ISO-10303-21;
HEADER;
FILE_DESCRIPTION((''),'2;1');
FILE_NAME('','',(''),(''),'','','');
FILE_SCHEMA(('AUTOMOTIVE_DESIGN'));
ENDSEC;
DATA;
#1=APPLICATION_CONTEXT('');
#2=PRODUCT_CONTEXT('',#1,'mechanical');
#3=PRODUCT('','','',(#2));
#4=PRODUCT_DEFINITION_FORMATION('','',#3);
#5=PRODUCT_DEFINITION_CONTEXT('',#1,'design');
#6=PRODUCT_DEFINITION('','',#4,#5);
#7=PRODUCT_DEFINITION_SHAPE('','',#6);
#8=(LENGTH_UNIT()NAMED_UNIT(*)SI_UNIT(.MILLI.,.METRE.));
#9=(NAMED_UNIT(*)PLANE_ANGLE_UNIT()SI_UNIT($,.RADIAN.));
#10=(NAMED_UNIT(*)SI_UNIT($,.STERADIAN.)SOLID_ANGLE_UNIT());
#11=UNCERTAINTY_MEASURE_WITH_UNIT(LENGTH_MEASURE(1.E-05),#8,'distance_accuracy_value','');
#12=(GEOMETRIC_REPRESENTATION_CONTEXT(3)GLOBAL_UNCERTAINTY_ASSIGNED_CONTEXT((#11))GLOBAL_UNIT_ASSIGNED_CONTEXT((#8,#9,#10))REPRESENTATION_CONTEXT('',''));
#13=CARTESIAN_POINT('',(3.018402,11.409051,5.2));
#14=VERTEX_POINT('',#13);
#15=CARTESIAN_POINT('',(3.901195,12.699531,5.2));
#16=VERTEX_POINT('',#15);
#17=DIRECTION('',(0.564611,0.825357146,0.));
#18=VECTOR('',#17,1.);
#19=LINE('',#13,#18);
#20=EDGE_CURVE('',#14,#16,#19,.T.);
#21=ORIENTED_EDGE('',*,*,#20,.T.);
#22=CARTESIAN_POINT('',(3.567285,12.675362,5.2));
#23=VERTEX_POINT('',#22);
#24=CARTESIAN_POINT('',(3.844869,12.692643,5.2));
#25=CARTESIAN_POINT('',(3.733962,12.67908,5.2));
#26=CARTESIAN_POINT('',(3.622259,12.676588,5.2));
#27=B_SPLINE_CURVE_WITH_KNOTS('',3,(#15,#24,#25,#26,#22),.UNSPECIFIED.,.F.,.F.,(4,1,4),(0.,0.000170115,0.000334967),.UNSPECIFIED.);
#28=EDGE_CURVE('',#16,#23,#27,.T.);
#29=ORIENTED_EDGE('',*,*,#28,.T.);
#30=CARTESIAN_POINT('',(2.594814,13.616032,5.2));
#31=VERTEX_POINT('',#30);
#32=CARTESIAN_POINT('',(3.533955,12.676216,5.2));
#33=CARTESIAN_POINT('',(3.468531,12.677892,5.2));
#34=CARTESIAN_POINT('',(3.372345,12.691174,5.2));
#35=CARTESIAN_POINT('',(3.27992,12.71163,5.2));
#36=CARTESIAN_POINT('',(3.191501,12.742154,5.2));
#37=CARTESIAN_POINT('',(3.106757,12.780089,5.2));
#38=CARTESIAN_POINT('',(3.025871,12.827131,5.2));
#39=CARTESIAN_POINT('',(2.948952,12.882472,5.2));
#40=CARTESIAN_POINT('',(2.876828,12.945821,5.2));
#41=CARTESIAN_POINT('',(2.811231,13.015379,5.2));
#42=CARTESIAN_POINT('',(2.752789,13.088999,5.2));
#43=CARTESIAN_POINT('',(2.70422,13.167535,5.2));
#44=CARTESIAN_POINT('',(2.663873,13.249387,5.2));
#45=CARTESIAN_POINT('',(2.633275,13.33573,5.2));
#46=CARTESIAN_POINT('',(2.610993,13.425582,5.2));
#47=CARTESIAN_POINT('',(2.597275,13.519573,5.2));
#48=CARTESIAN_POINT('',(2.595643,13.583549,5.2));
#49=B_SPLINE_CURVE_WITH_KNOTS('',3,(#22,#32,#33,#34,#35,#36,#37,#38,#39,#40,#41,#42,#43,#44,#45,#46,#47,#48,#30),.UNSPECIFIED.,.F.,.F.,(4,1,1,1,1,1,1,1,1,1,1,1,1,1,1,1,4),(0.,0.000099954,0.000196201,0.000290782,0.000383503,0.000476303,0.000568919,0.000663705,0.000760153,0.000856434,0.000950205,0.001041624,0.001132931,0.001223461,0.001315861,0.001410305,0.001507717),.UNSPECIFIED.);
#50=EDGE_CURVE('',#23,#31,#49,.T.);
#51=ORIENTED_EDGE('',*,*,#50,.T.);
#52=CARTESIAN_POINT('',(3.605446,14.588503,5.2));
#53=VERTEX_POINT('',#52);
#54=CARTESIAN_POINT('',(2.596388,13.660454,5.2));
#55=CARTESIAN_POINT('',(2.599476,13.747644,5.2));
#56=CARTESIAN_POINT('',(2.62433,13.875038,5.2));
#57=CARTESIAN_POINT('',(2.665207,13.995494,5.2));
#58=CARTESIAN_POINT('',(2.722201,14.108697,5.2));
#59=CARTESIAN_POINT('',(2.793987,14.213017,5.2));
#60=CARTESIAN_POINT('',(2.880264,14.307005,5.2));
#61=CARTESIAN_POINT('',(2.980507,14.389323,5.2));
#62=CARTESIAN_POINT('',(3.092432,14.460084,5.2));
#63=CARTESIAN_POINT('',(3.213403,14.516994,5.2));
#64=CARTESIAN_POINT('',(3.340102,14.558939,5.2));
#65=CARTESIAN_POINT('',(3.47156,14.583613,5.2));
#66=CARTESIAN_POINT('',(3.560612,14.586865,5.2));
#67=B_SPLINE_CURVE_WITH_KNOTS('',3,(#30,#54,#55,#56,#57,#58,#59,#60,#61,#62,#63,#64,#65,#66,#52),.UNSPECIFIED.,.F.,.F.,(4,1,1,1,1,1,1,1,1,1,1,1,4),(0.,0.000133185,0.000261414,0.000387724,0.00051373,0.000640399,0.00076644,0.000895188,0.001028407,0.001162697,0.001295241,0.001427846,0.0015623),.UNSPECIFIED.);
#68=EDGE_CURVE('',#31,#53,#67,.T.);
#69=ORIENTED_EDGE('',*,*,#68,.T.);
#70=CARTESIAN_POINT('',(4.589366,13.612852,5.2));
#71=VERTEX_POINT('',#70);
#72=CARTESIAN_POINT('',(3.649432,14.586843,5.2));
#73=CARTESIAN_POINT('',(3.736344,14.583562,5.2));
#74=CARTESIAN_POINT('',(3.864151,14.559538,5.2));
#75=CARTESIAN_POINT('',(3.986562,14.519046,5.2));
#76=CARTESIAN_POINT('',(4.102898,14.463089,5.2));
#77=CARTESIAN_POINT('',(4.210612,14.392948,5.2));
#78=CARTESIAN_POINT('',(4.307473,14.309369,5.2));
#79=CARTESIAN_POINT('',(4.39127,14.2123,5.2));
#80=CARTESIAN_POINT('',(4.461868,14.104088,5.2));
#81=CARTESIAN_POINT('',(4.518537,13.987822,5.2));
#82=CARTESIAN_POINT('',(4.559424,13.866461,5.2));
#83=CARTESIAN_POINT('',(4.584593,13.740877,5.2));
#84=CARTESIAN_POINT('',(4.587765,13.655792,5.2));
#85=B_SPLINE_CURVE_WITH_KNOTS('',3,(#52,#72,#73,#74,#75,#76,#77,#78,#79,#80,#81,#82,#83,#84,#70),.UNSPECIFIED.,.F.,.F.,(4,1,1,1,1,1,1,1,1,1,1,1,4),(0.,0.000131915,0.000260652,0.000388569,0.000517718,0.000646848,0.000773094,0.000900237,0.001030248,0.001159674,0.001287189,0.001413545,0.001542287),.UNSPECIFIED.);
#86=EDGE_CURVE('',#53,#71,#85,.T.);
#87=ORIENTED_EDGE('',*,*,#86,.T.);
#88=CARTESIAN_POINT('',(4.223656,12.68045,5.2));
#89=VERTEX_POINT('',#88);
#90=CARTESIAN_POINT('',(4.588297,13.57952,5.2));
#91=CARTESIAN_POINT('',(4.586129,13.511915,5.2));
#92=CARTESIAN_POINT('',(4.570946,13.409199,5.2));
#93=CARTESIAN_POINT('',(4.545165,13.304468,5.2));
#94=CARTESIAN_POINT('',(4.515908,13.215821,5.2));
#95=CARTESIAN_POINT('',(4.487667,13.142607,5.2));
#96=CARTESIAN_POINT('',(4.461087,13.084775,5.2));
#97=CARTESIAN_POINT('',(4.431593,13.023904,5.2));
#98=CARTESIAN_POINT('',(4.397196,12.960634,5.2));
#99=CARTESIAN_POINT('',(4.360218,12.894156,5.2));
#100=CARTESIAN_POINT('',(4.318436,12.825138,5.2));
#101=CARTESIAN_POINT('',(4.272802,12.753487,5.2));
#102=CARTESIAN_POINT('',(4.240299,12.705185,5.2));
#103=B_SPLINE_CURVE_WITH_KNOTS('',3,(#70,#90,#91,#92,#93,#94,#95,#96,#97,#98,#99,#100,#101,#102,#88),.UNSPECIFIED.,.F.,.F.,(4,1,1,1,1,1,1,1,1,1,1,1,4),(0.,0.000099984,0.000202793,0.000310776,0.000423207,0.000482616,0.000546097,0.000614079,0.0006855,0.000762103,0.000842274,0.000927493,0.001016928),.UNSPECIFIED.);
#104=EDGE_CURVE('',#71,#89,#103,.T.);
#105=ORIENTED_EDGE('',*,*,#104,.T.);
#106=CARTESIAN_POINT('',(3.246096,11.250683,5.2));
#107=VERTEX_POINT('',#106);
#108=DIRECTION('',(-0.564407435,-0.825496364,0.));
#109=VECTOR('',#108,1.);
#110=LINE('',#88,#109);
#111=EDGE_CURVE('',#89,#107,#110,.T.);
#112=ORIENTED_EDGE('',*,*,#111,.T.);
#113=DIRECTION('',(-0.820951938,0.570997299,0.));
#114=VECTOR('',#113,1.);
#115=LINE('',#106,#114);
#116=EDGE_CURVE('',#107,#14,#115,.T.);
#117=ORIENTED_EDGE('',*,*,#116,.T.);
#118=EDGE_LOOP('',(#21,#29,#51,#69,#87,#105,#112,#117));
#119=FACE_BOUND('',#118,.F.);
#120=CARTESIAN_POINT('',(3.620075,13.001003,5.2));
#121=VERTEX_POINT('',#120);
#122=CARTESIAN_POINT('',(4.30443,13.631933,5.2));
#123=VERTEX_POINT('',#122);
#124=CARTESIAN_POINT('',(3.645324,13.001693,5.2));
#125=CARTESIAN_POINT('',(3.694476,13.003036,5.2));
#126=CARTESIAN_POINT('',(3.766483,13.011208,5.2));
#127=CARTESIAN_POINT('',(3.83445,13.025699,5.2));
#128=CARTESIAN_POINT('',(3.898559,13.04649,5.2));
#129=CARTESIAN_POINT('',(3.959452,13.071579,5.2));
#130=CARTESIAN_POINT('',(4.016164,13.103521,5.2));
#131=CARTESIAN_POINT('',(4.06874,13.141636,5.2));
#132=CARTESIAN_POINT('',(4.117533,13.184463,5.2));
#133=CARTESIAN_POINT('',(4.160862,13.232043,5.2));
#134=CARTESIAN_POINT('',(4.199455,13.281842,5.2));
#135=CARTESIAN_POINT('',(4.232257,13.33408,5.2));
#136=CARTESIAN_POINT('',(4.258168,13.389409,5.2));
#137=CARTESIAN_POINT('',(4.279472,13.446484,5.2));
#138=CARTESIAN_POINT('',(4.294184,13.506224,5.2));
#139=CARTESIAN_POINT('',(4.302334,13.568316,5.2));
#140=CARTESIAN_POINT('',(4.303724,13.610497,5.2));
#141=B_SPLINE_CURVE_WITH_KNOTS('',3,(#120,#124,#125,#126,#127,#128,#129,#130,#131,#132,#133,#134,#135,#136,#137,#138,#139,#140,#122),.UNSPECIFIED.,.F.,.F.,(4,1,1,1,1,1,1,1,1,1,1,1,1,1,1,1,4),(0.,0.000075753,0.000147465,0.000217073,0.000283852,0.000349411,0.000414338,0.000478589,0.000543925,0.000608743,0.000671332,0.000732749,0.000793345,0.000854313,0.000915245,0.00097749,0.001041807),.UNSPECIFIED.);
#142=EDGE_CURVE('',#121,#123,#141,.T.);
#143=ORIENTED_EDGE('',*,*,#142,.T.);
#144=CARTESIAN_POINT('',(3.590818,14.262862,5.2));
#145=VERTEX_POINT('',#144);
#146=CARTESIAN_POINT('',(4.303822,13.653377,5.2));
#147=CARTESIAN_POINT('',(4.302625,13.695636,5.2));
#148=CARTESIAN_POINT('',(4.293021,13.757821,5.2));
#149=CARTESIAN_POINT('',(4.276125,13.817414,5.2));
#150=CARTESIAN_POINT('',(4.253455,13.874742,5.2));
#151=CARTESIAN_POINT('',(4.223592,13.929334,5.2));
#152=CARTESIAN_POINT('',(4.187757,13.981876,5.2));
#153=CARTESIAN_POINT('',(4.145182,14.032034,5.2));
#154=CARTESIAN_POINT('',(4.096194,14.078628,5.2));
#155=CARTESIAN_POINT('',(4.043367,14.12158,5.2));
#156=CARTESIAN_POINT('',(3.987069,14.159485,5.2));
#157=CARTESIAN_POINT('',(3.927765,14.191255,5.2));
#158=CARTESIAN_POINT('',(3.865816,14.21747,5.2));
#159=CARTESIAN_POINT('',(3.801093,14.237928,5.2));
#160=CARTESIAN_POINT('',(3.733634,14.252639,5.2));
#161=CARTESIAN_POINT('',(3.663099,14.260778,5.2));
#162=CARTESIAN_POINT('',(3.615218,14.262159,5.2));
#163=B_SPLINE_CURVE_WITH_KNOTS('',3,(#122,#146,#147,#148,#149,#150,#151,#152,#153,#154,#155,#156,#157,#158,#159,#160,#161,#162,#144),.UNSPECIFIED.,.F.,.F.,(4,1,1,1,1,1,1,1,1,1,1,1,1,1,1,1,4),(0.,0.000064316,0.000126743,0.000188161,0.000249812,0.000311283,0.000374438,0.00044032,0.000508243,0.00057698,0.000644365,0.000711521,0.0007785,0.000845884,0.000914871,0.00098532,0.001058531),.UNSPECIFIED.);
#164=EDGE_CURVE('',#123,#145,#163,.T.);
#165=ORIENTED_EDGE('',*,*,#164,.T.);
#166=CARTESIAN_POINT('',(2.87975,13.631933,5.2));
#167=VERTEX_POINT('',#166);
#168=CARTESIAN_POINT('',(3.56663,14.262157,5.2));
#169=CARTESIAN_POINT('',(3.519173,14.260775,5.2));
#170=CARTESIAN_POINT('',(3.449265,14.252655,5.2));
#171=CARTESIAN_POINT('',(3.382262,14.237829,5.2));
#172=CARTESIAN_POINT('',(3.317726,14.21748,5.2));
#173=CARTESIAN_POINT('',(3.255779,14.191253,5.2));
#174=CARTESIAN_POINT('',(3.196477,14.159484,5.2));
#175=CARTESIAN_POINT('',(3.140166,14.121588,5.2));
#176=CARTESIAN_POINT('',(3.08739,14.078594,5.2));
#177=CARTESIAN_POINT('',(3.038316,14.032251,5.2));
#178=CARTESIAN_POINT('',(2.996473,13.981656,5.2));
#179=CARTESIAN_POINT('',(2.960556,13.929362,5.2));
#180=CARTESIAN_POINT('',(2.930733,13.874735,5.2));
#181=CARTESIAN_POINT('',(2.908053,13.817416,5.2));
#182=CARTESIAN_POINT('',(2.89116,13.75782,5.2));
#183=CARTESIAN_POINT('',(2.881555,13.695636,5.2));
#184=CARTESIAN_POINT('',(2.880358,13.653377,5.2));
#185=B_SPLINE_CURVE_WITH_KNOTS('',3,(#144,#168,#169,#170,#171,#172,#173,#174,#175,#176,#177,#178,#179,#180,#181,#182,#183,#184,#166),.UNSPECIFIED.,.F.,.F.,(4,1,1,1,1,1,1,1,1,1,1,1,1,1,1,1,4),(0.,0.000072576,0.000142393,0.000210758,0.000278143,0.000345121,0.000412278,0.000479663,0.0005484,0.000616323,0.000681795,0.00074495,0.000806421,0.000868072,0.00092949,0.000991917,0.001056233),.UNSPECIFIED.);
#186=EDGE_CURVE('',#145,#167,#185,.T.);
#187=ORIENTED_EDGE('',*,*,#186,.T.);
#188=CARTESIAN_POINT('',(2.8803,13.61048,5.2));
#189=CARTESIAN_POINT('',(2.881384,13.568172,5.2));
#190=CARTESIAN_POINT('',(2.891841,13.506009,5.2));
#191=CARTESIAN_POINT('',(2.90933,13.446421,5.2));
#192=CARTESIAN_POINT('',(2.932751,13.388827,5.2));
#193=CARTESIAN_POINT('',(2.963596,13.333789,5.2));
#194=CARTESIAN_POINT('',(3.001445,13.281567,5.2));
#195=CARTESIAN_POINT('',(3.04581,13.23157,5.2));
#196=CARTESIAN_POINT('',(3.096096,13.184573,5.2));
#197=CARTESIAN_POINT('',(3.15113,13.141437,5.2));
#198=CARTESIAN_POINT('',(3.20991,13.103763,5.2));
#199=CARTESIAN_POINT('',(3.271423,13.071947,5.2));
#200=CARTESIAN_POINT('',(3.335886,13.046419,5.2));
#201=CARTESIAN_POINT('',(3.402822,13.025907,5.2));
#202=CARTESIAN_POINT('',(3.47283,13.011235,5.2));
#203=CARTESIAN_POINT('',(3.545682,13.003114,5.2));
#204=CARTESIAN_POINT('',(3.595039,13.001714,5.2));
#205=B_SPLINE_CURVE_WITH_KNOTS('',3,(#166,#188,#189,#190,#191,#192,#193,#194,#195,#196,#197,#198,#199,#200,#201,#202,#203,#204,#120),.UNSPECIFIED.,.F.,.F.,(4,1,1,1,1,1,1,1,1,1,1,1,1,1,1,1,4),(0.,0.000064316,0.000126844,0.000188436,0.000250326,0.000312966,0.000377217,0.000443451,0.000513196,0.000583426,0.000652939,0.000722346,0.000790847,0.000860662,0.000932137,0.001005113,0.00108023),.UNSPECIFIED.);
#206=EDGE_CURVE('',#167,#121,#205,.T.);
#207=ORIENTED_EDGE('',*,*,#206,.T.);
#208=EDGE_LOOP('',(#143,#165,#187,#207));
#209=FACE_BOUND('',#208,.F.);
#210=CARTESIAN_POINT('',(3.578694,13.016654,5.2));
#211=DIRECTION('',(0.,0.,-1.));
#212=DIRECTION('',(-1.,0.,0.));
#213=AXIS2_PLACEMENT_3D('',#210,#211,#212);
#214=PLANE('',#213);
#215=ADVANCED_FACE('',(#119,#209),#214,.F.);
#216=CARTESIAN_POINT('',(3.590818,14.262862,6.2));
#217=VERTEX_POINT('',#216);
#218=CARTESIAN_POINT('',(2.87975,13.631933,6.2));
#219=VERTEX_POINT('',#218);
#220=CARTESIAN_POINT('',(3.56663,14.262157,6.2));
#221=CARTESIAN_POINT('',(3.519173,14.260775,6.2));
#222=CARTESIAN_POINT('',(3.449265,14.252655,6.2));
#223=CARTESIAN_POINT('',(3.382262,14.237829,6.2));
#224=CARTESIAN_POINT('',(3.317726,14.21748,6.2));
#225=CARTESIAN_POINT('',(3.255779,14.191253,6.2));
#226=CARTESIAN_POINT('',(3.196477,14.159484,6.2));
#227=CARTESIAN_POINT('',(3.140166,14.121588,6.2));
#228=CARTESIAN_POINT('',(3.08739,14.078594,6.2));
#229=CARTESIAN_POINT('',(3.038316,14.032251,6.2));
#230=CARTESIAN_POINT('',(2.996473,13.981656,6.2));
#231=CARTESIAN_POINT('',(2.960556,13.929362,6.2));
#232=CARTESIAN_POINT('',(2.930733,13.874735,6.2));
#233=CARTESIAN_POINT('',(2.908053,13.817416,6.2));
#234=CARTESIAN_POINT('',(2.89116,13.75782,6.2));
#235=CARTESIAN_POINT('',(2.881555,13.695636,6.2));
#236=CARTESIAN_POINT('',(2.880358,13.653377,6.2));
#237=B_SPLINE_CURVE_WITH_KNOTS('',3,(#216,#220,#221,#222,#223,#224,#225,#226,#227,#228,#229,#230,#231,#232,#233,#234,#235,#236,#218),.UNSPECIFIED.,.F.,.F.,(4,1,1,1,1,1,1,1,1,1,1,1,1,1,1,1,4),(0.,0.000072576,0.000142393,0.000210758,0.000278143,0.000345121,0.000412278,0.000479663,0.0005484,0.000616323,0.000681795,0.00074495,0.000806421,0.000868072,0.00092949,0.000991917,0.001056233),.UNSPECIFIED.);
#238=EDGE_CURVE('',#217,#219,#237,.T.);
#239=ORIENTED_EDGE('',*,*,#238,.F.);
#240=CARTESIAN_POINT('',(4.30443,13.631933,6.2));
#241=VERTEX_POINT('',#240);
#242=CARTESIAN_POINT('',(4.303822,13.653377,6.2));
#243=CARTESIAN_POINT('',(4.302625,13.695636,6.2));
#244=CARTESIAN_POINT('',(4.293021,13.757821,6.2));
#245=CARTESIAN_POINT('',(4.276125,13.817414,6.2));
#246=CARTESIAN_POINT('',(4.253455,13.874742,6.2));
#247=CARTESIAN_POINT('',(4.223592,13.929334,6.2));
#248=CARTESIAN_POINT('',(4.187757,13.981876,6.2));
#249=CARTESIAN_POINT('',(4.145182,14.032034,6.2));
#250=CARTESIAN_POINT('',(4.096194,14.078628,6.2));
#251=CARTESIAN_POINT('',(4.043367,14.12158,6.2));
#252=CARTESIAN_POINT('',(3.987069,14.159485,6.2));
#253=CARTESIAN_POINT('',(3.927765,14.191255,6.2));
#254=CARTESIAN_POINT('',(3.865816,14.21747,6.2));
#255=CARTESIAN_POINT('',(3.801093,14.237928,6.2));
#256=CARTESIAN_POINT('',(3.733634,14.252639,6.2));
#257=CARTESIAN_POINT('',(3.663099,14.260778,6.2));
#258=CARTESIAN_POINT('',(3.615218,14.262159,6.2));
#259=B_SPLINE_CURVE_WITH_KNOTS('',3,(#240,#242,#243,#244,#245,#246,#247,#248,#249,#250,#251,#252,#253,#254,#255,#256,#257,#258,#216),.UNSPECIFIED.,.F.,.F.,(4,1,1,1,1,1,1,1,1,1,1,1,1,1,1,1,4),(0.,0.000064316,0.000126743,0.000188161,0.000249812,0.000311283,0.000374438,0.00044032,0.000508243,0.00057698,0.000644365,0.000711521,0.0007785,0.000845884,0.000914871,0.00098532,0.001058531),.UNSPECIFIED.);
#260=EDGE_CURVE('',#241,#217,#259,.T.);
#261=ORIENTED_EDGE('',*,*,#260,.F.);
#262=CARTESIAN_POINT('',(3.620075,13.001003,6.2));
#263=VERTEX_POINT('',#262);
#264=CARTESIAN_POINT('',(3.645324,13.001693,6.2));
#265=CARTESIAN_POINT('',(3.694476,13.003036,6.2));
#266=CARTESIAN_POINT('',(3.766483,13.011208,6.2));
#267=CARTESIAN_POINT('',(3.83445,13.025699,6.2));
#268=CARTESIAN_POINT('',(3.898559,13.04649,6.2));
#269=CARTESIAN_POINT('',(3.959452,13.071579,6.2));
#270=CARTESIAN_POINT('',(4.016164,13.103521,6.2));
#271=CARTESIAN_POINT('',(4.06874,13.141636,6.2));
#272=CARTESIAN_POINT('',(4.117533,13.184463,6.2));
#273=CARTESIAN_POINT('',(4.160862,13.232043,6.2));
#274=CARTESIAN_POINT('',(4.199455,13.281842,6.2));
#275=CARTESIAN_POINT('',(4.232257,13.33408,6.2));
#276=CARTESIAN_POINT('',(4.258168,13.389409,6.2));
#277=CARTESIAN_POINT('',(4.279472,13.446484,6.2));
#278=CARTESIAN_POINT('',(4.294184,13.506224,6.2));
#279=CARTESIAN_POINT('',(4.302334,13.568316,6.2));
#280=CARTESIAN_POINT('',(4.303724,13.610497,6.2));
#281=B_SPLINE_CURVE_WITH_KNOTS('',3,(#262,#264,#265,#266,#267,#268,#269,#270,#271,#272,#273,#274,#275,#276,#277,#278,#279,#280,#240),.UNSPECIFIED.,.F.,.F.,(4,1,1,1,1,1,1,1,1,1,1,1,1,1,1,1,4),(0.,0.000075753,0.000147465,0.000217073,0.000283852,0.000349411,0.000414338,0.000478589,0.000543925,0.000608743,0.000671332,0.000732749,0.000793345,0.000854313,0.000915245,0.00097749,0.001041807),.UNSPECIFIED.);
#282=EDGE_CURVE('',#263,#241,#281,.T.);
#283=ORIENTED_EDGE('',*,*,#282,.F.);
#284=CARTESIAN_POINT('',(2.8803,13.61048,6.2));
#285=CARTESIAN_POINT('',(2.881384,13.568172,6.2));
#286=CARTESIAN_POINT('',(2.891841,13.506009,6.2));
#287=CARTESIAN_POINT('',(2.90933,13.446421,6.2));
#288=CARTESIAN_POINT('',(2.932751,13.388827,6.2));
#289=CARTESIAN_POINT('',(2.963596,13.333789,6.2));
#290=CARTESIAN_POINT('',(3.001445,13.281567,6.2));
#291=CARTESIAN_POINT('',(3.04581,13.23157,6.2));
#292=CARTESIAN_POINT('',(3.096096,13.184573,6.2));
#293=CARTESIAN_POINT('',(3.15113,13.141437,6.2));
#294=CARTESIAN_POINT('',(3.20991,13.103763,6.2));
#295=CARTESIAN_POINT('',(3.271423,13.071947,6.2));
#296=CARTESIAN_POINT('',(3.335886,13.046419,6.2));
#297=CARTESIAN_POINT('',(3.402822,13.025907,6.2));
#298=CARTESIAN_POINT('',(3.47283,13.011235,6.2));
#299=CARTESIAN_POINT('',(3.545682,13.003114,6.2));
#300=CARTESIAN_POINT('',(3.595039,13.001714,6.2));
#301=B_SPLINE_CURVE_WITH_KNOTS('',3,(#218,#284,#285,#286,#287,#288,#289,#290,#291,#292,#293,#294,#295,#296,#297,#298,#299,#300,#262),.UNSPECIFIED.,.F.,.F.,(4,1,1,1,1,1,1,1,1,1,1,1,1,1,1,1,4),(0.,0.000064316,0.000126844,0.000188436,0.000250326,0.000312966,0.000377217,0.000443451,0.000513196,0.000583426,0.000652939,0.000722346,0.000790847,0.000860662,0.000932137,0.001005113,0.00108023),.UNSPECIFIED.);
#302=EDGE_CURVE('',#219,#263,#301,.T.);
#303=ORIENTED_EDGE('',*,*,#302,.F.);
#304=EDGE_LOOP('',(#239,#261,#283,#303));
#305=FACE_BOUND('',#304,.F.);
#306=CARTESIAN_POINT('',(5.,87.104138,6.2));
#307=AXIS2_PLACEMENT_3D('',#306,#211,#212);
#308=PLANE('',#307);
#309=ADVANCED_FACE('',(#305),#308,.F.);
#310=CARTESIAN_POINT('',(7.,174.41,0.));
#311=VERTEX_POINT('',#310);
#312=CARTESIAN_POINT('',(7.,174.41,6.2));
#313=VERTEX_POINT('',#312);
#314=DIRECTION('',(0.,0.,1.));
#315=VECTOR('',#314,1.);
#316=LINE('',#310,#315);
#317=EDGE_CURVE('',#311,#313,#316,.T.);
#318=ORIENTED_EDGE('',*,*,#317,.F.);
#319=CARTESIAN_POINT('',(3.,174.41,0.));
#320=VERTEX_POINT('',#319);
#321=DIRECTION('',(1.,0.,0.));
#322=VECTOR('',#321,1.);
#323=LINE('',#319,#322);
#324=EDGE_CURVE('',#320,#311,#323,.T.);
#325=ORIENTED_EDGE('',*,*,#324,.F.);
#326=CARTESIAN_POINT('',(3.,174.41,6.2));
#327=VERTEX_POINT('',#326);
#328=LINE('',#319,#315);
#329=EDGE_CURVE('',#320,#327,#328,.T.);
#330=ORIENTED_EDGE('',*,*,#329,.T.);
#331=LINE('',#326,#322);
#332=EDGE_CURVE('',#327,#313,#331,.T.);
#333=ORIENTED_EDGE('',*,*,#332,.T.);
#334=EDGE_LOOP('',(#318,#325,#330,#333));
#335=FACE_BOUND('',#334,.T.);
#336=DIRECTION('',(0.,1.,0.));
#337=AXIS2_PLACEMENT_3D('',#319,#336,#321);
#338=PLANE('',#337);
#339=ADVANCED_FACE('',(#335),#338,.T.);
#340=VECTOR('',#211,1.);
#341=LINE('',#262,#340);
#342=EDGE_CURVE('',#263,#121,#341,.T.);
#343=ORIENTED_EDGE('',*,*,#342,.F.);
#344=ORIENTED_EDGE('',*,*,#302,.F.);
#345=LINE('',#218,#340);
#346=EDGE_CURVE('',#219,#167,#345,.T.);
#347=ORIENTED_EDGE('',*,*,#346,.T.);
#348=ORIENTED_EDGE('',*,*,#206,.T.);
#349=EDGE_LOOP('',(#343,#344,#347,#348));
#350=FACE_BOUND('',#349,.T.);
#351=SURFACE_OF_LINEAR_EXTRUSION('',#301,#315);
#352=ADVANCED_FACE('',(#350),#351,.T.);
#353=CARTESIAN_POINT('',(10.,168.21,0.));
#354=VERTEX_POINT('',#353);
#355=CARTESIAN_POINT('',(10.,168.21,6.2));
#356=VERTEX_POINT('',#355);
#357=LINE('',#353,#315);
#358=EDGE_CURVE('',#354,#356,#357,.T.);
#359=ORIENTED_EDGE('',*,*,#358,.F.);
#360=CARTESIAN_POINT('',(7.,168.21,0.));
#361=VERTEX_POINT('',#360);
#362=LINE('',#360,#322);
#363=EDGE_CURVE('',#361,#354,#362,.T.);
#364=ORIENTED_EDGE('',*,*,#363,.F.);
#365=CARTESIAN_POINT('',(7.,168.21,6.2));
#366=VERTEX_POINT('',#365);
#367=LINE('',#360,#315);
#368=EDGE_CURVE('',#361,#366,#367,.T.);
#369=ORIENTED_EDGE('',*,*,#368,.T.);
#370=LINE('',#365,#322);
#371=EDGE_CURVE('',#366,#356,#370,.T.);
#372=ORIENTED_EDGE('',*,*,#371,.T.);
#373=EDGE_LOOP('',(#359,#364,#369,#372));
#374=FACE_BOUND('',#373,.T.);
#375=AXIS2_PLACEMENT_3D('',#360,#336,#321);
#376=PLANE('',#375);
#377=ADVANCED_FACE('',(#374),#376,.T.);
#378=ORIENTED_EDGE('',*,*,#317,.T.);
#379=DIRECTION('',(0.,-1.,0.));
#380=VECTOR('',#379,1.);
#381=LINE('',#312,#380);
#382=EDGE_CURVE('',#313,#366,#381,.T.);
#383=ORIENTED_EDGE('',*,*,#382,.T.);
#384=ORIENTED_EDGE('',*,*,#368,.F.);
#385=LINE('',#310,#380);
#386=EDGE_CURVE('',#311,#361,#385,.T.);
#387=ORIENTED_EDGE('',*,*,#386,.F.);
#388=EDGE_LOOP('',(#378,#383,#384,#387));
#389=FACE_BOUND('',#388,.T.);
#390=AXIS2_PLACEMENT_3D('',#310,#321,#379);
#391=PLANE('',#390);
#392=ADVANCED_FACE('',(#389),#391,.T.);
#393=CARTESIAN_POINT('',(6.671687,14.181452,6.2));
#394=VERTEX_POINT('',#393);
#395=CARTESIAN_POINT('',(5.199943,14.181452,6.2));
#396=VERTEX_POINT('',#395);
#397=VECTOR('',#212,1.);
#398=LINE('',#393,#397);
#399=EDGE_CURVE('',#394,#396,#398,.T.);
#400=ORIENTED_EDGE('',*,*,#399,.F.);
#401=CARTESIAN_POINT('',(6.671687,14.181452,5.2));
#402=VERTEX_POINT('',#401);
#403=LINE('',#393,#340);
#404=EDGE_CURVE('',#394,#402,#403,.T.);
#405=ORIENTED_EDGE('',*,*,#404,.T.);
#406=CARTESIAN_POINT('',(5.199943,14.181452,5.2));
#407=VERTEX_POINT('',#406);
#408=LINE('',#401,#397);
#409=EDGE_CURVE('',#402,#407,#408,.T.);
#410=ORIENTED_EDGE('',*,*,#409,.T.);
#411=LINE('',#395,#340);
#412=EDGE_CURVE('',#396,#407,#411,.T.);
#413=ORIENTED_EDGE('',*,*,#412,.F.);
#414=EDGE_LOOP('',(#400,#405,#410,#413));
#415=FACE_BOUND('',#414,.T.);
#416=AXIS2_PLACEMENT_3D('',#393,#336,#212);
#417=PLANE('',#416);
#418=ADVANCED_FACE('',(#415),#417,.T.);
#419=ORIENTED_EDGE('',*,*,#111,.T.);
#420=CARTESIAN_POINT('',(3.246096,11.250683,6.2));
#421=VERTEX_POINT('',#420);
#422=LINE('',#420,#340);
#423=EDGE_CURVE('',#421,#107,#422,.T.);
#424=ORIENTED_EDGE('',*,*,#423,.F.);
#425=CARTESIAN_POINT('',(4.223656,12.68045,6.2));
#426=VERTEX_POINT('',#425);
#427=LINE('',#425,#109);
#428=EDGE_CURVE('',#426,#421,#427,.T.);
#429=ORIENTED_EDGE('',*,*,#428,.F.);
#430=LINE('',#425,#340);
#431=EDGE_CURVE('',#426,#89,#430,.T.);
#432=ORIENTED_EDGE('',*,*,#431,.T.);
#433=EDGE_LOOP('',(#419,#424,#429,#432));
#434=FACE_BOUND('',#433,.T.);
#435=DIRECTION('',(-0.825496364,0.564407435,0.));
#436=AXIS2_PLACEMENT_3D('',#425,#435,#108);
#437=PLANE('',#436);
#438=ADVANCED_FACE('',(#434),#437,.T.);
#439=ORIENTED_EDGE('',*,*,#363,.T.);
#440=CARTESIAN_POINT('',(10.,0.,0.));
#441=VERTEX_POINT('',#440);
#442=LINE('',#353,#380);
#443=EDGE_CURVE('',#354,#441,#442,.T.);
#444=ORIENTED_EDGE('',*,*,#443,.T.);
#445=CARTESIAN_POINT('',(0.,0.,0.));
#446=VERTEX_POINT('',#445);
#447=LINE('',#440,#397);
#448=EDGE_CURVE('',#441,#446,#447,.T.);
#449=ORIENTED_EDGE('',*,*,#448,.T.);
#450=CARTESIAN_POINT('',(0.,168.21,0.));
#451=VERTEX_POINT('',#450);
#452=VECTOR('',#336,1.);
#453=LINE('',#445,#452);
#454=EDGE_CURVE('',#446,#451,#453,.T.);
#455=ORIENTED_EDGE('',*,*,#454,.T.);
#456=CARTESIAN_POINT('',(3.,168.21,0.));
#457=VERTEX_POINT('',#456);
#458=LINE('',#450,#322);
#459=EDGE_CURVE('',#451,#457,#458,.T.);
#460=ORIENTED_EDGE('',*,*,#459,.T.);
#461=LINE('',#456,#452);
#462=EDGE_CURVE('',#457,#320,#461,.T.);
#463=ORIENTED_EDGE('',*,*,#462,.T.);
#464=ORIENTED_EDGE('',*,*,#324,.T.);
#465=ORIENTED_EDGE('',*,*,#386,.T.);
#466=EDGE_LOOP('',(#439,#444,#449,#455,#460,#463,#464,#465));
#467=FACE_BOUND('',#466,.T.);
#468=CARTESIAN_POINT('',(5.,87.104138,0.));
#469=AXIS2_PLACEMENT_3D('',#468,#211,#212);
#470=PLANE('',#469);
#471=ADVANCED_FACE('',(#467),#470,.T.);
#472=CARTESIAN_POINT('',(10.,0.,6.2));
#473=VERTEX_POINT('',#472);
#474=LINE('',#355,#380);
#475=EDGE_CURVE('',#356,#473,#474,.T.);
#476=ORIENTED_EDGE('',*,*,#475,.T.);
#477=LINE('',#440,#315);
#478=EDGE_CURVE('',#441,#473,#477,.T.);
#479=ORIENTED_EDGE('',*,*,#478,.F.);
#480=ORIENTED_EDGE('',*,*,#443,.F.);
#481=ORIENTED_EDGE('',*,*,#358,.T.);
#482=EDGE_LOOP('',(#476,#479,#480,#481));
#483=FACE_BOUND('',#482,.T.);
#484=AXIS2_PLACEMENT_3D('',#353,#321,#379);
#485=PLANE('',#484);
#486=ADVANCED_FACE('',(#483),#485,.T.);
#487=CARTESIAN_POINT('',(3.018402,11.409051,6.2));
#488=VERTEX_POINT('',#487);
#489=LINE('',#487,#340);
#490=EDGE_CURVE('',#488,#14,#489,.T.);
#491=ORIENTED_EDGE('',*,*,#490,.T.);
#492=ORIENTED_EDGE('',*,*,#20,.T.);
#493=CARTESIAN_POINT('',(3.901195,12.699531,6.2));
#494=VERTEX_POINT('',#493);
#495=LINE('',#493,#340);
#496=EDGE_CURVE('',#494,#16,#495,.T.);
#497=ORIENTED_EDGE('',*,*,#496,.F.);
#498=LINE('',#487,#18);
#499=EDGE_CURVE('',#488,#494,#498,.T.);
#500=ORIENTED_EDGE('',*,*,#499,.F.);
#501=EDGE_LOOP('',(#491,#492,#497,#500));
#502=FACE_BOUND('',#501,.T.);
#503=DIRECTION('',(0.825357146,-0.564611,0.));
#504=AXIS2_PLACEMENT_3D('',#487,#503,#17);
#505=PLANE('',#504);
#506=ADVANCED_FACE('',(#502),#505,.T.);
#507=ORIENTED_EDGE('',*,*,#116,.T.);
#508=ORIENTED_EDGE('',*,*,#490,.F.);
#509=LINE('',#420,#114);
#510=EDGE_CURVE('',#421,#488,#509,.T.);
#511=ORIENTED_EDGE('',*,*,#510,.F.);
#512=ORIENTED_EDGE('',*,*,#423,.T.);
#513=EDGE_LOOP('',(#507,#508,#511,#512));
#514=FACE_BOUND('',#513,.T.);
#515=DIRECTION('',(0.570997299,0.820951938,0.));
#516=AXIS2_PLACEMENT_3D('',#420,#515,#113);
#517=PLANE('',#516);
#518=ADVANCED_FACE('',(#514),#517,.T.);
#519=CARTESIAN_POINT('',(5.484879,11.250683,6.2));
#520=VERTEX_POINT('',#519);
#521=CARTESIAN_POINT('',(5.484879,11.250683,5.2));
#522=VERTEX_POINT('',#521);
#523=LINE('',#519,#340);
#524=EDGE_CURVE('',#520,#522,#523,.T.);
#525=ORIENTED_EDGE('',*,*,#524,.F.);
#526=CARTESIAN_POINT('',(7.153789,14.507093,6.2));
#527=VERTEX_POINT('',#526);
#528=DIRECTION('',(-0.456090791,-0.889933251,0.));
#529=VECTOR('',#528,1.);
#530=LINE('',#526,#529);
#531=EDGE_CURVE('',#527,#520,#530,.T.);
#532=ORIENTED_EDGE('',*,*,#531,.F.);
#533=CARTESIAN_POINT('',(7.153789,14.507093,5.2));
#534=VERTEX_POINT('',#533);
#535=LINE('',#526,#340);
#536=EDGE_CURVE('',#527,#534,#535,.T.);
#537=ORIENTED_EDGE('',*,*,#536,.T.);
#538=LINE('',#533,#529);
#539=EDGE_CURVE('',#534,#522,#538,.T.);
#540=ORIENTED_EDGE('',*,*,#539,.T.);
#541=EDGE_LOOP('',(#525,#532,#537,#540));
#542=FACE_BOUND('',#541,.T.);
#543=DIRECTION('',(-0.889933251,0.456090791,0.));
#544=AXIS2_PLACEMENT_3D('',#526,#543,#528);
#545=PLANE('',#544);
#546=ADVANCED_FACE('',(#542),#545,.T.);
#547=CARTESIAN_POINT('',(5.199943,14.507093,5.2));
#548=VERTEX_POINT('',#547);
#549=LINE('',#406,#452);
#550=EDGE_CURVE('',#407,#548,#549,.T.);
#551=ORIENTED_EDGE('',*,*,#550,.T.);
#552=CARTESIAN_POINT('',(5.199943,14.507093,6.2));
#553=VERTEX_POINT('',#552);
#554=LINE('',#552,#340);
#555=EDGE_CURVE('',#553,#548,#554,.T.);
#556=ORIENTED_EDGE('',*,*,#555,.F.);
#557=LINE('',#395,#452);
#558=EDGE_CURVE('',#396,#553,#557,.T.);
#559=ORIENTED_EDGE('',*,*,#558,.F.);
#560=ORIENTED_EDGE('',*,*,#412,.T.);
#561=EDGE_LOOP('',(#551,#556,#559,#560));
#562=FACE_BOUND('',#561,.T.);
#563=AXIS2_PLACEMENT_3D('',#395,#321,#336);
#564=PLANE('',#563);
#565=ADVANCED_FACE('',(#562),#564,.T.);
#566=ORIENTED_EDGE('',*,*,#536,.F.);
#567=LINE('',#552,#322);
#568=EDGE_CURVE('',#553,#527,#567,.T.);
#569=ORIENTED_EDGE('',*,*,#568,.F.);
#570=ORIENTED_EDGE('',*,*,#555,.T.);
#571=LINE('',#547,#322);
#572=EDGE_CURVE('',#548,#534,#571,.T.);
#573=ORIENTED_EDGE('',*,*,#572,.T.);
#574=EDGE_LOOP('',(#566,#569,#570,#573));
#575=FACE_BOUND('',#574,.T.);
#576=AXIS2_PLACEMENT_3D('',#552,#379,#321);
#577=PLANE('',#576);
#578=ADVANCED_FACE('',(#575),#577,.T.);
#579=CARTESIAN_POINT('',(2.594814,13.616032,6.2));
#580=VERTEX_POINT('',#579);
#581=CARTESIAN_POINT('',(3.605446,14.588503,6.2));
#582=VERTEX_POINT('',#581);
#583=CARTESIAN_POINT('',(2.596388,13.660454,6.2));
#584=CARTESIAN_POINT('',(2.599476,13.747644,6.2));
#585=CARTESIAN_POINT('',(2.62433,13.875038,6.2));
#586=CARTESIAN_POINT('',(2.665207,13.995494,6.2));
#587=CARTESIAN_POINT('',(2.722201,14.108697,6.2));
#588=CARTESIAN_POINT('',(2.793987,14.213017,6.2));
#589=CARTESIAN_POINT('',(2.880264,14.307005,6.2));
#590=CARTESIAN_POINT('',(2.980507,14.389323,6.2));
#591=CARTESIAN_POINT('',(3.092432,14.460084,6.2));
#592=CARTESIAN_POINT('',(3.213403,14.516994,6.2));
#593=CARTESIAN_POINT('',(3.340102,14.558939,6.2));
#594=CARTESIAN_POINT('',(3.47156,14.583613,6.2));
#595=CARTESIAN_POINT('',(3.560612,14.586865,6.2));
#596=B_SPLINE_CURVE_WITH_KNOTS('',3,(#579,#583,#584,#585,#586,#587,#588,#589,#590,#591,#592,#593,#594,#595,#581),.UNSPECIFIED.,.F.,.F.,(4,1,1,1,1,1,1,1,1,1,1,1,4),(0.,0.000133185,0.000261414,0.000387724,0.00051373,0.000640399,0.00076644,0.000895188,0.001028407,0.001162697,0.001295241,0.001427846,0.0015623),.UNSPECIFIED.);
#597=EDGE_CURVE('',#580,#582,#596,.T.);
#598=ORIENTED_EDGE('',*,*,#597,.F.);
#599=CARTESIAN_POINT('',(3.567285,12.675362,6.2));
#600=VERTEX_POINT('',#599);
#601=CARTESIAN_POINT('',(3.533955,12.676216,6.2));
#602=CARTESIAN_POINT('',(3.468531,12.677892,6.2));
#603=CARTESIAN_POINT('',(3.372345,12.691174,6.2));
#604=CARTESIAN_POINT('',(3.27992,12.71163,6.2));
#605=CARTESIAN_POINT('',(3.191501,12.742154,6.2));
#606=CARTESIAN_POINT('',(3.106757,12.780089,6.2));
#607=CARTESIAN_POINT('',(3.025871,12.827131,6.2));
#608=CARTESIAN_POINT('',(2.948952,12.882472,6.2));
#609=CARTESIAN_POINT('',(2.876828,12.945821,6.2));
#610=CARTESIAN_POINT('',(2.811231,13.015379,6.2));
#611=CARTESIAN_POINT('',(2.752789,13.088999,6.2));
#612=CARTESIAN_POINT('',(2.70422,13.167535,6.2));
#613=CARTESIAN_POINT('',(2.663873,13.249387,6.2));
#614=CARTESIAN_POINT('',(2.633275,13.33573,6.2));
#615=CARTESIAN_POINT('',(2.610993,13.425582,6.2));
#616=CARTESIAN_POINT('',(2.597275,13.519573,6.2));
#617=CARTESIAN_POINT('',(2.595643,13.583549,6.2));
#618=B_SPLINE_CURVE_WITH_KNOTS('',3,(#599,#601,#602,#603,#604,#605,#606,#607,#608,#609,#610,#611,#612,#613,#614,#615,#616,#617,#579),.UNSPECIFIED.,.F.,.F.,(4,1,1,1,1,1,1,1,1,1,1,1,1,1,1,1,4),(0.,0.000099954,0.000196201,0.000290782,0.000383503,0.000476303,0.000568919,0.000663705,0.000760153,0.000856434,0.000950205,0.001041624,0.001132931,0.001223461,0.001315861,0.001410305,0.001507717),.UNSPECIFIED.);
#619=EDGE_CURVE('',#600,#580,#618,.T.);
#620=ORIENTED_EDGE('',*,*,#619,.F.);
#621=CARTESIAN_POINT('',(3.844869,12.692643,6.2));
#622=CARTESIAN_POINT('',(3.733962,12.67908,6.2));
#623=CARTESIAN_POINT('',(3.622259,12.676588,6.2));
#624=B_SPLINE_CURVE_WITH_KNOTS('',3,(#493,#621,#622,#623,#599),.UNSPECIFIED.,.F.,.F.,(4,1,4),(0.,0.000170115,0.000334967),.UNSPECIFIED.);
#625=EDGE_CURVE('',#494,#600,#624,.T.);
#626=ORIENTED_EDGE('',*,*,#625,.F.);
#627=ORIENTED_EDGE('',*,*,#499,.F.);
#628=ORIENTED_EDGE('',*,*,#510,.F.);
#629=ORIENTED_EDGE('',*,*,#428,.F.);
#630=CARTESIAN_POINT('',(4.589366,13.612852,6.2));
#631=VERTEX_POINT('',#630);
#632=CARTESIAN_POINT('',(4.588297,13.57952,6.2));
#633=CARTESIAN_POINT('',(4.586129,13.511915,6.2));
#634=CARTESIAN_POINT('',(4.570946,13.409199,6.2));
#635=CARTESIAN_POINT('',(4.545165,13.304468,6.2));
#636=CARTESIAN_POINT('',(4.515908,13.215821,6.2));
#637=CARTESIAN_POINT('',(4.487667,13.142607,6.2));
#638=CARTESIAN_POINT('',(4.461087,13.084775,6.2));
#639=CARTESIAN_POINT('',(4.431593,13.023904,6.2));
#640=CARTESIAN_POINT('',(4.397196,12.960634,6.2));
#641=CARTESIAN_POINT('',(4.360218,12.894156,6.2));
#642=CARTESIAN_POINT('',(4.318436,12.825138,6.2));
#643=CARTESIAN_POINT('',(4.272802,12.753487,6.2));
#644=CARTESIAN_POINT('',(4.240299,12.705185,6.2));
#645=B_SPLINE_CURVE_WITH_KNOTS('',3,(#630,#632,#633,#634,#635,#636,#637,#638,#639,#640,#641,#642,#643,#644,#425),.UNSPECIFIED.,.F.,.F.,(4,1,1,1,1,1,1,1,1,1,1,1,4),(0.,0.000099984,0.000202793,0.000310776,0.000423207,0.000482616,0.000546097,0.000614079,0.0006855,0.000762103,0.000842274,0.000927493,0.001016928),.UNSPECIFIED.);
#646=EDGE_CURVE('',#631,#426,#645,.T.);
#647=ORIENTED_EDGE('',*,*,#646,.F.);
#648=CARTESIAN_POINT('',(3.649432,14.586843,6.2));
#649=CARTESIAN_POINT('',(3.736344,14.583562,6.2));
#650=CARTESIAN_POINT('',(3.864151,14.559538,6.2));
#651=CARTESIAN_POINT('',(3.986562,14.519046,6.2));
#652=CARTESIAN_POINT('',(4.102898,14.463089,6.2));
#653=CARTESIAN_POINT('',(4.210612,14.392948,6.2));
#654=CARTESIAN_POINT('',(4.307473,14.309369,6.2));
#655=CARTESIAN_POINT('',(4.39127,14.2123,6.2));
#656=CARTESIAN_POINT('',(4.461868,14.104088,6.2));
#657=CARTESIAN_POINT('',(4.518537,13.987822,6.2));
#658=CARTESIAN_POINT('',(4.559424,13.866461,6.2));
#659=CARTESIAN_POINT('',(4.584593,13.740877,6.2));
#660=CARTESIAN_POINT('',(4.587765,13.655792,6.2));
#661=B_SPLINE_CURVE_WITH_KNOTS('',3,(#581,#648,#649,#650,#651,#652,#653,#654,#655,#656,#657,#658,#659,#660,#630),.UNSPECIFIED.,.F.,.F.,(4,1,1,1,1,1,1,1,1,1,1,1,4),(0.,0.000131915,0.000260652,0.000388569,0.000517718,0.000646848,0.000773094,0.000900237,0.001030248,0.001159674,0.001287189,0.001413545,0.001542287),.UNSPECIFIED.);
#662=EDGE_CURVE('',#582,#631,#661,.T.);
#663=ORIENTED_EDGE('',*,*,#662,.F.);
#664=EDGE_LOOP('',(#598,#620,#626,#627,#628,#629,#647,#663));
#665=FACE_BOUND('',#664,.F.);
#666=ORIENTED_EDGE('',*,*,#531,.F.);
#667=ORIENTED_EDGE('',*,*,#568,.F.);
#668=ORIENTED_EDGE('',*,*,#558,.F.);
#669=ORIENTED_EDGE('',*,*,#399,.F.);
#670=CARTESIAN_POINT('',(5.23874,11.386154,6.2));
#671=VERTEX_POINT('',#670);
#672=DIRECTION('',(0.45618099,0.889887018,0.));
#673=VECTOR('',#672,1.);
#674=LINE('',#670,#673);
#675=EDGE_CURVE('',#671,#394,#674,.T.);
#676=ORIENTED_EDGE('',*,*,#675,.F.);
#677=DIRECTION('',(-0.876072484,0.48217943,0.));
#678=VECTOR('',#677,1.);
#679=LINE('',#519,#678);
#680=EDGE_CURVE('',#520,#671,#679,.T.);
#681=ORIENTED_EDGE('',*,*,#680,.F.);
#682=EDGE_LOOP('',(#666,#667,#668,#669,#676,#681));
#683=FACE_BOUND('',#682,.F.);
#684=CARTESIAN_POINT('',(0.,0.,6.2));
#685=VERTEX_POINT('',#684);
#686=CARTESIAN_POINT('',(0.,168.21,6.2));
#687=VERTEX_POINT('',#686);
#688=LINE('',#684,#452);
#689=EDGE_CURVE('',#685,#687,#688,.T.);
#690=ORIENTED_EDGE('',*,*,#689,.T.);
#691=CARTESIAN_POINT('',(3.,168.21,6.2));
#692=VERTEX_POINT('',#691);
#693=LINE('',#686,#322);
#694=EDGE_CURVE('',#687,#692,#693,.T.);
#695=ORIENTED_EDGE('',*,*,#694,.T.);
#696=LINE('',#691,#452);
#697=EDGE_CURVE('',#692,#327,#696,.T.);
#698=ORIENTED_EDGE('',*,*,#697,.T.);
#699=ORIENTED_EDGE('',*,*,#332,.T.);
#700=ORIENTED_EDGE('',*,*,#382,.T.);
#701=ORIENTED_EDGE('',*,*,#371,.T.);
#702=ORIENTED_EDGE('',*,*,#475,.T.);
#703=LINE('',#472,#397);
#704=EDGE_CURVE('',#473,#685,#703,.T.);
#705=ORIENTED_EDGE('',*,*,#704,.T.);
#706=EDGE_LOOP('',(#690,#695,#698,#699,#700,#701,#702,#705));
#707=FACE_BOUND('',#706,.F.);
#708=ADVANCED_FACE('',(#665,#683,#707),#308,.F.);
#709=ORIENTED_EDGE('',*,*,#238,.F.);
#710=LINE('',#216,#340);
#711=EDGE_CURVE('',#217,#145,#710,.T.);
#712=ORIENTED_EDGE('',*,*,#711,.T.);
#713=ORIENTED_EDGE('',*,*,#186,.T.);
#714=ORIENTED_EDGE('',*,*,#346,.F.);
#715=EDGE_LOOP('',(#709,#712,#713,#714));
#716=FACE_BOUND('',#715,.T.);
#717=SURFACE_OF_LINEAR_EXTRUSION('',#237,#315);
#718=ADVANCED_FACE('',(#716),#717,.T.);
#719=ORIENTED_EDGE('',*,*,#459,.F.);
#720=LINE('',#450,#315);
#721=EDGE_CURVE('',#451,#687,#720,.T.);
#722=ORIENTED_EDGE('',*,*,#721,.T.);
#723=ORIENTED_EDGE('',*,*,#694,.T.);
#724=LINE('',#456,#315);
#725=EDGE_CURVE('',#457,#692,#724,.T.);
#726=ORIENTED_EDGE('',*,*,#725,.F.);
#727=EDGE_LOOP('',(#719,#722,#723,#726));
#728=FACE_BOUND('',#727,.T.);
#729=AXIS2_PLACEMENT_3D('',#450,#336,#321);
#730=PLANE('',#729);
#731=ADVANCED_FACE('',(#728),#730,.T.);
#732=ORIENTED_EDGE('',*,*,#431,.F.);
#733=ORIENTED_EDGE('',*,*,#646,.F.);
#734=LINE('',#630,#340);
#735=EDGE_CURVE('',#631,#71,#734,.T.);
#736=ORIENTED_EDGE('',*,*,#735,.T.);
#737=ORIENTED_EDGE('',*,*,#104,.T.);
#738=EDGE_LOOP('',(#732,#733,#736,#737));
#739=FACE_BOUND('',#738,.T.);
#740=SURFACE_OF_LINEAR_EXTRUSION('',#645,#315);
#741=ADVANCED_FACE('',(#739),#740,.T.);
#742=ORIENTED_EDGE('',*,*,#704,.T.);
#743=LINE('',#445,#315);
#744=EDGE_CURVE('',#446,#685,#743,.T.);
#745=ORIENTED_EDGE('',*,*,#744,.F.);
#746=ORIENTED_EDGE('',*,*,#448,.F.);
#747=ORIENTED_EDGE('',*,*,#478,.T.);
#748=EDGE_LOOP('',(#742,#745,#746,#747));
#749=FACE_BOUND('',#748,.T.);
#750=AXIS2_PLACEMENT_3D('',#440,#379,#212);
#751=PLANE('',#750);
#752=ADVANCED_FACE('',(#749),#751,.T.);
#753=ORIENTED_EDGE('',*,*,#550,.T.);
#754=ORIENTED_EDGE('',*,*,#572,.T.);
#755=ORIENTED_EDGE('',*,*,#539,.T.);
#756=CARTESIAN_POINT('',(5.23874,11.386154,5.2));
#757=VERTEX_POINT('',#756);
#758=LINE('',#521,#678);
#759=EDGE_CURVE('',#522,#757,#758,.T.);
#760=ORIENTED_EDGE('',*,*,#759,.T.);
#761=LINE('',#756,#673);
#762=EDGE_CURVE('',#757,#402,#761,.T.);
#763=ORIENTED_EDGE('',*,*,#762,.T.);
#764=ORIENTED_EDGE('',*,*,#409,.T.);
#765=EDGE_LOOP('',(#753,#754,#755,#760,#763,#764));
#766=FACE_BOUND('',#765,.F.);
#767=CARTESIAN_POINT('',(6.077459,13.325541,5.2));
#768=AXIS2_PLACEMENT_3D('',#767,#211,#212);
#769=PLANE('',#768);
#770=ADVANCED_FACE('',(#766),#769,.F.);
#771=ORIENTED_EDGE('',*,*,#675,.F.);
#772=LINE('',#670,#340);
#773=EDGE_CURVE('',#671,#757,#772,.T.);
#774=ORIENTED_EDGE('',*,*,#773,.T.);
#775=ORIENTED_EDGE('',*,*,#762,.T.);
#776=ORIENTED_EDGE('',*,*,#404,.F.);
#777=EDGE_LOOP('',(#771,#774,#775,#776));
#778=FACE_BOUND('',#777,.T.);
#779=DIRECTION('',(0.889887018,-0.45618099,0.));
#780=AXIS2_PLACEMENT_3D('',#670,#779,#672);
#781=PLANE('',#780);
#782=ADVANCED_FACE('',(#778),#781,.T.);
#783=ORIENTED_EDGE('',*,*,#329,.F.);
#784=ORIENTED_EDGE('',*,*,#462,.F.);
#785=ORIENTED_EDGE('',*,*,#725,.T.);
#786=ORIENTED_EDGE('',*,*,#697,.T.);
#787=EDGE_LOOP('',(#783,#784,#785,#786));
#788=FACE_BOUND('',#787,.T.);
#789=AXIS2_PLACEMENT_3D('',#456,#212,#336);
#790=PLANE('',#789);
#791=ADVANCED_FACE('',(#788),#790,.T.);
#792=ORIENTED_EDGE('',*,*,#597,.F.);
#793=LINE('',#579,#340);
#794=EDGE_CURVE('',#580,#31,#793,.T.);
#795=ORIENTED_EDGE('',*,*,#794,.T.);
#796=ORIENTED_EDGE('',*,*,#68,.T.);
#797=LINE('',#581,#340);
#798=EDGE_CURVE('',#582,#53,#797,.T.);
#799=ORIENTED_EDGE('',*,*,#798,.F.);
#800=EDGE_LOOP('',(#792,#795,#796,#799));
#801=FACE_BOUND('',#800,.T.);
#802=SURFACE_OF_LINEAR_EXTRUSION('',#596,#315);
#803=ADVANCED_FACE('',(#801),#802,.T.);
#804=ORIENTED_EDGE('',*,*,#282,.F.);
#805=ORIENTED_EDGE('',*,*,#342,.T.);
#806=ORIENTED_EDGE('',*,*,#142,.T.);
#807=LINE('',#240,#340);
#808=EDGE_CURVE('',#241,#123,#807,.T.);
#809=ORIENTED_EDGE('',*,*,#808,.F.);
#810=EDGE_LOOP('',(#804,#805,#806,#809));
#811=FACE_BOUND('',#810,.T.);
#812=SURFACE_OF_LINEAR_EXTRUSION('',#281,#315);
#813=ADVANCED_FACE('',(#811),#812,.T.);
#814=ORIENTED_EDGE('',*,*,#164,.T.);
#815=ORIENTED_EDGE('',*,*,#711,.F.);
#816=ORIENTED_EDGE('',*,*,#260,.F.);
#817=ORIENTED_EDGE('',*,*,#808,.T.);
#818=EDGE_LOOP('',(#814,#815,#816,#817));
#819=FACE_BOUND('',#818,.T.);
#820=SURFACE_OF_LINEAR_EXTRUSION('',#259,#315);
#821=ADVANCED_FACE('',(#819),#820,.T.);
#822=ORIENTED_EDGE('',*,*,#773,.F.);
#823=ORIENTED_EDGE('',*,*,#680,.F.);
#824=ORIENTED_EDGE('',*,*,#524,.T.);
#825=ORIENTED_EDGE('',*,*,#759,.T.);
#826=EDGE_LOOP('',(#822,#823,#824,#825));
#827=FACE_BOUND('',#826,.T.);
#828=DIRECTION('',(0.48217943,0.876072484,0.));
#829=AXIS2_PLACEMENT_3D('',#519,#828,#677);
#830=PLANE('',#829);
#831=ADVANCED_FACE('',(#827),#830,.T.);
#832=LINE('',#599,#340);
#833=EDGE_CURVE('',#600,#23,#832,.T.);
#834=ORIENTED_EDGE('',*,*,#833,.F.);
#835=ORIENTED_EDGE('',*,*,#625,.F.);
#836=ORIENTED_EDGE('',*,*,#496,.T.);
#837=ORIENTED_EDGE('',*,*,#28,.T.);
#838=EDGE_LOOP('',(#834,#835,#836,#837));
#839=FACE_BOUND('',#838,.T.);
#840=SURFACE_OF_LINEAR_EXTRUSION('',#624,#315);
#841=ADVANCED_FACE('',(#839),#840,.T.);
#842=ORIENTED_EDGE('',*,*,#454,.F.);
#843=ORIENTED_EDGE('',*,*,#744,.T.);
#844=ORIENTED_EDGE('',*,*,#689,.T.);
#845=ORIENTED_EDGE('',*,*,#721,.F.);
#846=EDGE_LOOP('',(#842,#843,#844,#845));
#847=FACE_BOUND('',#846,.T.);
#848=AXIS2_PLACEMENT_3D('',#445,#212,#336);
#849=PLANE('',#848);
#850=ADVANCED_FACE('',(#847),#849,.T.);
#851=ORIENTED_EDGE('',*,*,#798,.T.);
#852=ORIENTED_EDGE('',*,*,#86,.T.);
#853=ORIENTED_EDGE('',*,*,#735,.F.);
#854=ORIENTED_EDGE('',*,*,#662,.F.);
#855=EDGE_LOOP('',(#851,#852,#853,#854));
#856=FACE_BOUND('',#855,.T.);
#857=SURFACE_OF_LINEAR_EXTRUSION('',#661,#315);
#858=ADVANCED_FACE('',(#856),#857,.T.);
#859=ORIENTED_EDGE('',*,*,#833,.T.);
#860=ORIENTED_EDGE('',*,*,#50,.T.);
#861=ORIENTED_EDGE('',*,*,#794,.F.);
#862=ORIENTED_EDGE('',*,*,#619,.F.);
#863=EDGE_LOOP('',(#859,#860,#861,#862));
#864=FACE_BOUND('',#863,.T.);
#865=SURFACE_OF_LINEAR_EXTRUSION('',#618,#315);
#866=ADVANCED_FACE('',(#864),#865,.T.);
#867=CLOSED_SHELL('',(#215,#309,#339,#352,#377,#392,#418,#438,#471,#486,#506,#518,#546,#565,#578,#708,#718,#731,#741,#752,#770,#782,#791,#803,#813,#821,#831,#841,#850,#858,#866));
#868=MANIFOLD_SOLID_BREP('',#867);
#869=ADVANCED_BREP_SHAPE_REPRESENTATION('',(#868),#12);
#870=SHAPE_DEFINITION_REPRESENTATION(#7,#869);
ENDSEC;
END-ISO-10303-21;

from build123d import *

# Parameters (mm, degrees)
BOSS_EXTRUDE1_DEPTH = 6.2
CUT_EXTRUDE1_DEPTH  = 1


with BuildPart() as part:
    # Sketch1 → Boss-Extrude1 (new body)
    with BuildSketch(Plane.XY):
        Polygon((0, 0), (0, 168.21), (3, 168.21), (3, 174.41), (7, 174.41), (7, 168.21), (10, 168.21), (10, 0), align=None)
    extrude(amount=BOSS_EXTRUDE1_DEPTH)

    # Sketch4 → Cut-Extrude1 (cut)
    with BuildSketch(Plane.XY.offset(6.2)):
        with BuildLine():
            Line((3.246096477, 11.250682627), (3.018402166, 11.409051017))
            Line((3.018402166, 11.409051017), (3.901194634, 12.699530784))
            add(Edge.make_bspline(
                [(3.901194634, 12.699530784), (3.844869467, 12.692642791), (3.733962072, 12.679079948), (3.62225913, 12.67658834), (3.567285379, 12.675362114)],
                knots=[0, 0, 0, 0, 0.000170115, 0.000334967, 0.000334967, 0.000334967, 0.000334967], degree=3))
            add(Edge.make_bspline(
                [(3.567285379, 12.675362114), (3.533955093, 12.676215805), (3.468530656, 12.677891525), (3.3723448, 12.691173737), (3.279920041, 12.711629925), (3.191501411, 12.742154152), (3.106756575, 12.780089242), (3.025870535, 12.827130962), (2.948952177, 12.882472383), (2.876827598, 12.945820883), (2.81123052, 13.01537883), (2.752789386, 13.088998592), (2.704219931, 13.167535365), (2.663873314, 13.249387065), (2.633274974, 13.335730147), (2.610993243, 13.425582103), (2.597275107, 13.519572664), (2.595643071, 13.583549033), (2.594814426, 13.616032186)],
                knots=[0, 0, 0, 0, 9.9954e-05, 0.000196201, 0.000290782, 0.000383503, 0.000476303, 0.000568919, 0.000663705, 0.000760153, 0.000856434, 0.000950205, 0.001041624, 0.001132931, 0.001223461, 0.001315861, 0.001410305, 0.001507717, 0.001507717, 0.001507717, 0.001507717], degree=3))
            add(Edge.make_bspline(
                [(2.594814426, 13.616032186), (2.596387806, 13.66045375), (2.599476032, 13.747644268), (2.624330401, 13.875037758), (2.665206566, 13.995494123), (2.722200879, 14.108696656), (2.793987377, 14.213016941), (2.880264455, 14.307004751), (2.980507337, 14.389323296), (3.092432454, 14.460084138), (3.213402694, 14.516993743), (3.34010212, 14.558939394), (3.471559929, 14.583612544), (3.560612029, 14.586865432), (3.605446437, 14.58850314)],
                knots=[0, 0, 0, 0, 0.000133185, 0.000261414, 0.000387724, 0.00051373, 0.000640399, 0.00076644, 0.000895188, 0.001028407, 0.001162697, 0.001295241, 0.001427846, 0.0015623, 0.0015623, 0.0015623, 0.0015623], degree=3))
            add(Edge.make_bspline(
                [(3.605446437, 14.58850314), (3.649432361, 14.586842921), (3.736344399, 14.583562484), (3.864150855, 14.55953774), (3.986561635, 14.519045901), (4.102898159, 14.46308919), (4.210611768, 14.392948081), (4.307472683, 14.309368906), (4.391270493, 14.212299606), (4.461867871, 14.104087904), (4.518537122, 13.987822143), (4.559424121, 13.866461013), (4.584593379, 13.740877316), (4.587765048, 13.655792329), (4.589365708, 13.612852098)],
                knots=[0, 0, 0, 0, 0.000131915, 0.000260652, 0.000388569, 0.000517718, 0.000646848, 0.000773094, 0.000900237, 0.001030248, 0.001159674, 0.001287189, 0.001413545, 0.001542287, 0.001542287, 0.001542287, 0.001542287], degree=3))
            add(Edge.make_bspline(
                [(4.589365708, 13.612852098), (4.588296723, 13.579520252), (4.586128553, 13.51191494), (4.570946332, 13.409198844), (4.545165164, 13.304468086), (4.515908266, 13.215820638), (4.487666942, 13.142606544), (4.46108663, 13.084774754), (4.431593462, 13.023904322), (4.397195725, 12.960633523), (4.360218499, 12.894155795), (4.318436155, 12.825137902), (4.272801815, 12.75348723), (4.24029914, 12.705184514), (4.223655572, 12.680450255)],
                knots=[0, 0, 0, 0, 9.9984e-05, 0.000202793, 0.000310776, 0.000423207, 0.000482616, 0.000546097, 0.000614079, 0.0006855, 0.000762103, 0.000842274, 0.000927493, 0.001016928, 0.001016928, 0.001016928, 0.001016928], degree=3))
            Line((4.223655572, 12.680450255), (3.246096477, 11.250682627))
        make_face()
        with BuildLine():
            add(Edge.make_bspline(
                [(3.620074842, 13.00100314), (3.64532427, 13.001692917), (3.69447632, 13.003035677), (3.76648287, 13.011208347), (3.834449826, 13.025699034), (3.898558745, 13.046490487), (3.959452435, 13.071579037), (4.016163675, 13.103521339), (4.068739929, 13.141636429), (4.117533263, 13.184462657), (4.160862034, 13.23204283), (4.199454641, 13.281842348), (4.232257441, 13.334079815), (4.258168414, 13.389409418), (4.279472279, 13.446484314), (4.294184333, 13.506223622), (4.302334406, 13.5683161), (4.303723764, 13.610497025), (4.30442981, 13.631932627)],
                knots=[0, 0, 0, 0, 7.5753e-05, 0.000147465, 0.000217073, 0.000283852, 0.000349411, 0.000414338, 0.000478589, 0.000543925, 0.000608743, 0.000671332, 0.000732749, 0.000793345, 0.000854313, 0.000915245, 0.00097749, 0.001041807, 0.001041807, 0.001041807, 0.001041807], degree=3))
            add(Edge.make_bspline(
                [(4.30442981, 13.631932627), (4.303822325, 13.653377181), (4.3026252, 13.695636304), (4.293021007, 13.75782071), (4.276125268, 13.817413883), (4.253455329, 13.874742073), (4.22359197, 13.929334267), (4.187756665, 13.981875865), (4.145182229, 14.032033724), (4.096194187, 14.078628195), (4.043367128, 14.121579503), (3.987069388, 14.159485444), (3.927765, 14.191254672), (3.86581577, 14.217470166), (3.801092625, 14.237927848), (3.733633864, 14.252639315), (3.663098603, 14.260777978), (3.615218437, 14.262158554), (3.590818032, 14.262862114)],
                knots=[0, 0, 0, 0, 6.4316e-05, 0.000126743, 0.000188161, 0.000249812, 0.000311283, 0.000374438, 0.00044032, 0.000508243, 0.00057698, 0.000644365, 0.000711521, 0.0007785, 0.000845884, 0.000914871, 0.00098532, 0.001058531, 0.001058531, 0.001058531, 0.001058531], degree=3))
            add(Edge.make_bspline(
                [(3.590818032, 14.262862114), (3.566629835, 14.262157417), (3.519172793, 14.260774807), (3.449264592, 14.252654785), (3.382261961, 14.23782891), (3.317726348, 14.217479642), (3.255778959, 14.191252716), (3.196477368, 14.159483779), (3.14016646, 14.121588229), (3.087390049, 14.0785944), (3.038315505, 14.032250606), (2.996473061, 13.981656139), (2.960555745, 13.929361599), (2.930733421, 13.874734809), (2.908052566, 13.817415821), (2.89115975, 13.757820185), (2.881554771, 13.69563644), (2.880357754, 13.653377227), (2.879750323, 13.631932627)],
                knots=[0, 0, 0, 0, 7.2576e-05, 0.000142393, 0.000210758, 0.000278143, 0.000345121, 0.000412278, 0.000479663, 0.0005484, 0.000616323, 0.000681795, 0.00074495, 0.000806421, 0.000868072, 0.00092949, 0.000991917, 0.001056233, 0.001056233, 0.001056233, 0.001056233], degree=3))
            add(Edge.make_bspline(
                [(2.879750323, 13.631932627), (2.880299985, 13.610480333), (2.881384018, 13.568172481), (2.89184137, 13.506009253), (2.909329524, 13.446420677), (2.9327514, 13.38882735), (2.963595699, 13.333789308), (3.00144519, 13.281567487), (3.045809507, 13.2315699), (3.096095599, 13.184573357), (3.151130288, 13.141436741), (3.209910193, 13.103762752), (3.271423403, 13.071947034), (3.335886453, 13.046418779), (3.402821622, 13.02590677), (3.472830491, 13.011235054), (3.545681535, 13.003114069), (3.595039161, 13.001713534), (3.620074842, 13.00100314)],
                knots=[0, 0, 0, 0, 6.4316e-05, 0.000126844, 0.000188436, 0.000250326, 0.000312966, 0.000377217, 0.000443451, 0.000513196, 0.000583426, 0.000652939, 0.000722346, 0.000790847, 0.000860662, 0.000932137, 0.001005113, 0.00108023, 0.00108023, 0.00108023, 0.00108023], degree=3))
        make_face(mode=Mode.SUBTRACT)
        Polygon((5.199942631, 14.507092884), (7.153788785, 14.507092884), (5.484878528, 11.250682627), (5.238739706, 11.386154382), (6.671687423, 14.181451858), (5.199942631, 14.181451858), align=None)
    extrude(amount=-CUT_EXTRUDE1_DEPTH, mode=Mode.SUBTRACT)


solid = part.part
